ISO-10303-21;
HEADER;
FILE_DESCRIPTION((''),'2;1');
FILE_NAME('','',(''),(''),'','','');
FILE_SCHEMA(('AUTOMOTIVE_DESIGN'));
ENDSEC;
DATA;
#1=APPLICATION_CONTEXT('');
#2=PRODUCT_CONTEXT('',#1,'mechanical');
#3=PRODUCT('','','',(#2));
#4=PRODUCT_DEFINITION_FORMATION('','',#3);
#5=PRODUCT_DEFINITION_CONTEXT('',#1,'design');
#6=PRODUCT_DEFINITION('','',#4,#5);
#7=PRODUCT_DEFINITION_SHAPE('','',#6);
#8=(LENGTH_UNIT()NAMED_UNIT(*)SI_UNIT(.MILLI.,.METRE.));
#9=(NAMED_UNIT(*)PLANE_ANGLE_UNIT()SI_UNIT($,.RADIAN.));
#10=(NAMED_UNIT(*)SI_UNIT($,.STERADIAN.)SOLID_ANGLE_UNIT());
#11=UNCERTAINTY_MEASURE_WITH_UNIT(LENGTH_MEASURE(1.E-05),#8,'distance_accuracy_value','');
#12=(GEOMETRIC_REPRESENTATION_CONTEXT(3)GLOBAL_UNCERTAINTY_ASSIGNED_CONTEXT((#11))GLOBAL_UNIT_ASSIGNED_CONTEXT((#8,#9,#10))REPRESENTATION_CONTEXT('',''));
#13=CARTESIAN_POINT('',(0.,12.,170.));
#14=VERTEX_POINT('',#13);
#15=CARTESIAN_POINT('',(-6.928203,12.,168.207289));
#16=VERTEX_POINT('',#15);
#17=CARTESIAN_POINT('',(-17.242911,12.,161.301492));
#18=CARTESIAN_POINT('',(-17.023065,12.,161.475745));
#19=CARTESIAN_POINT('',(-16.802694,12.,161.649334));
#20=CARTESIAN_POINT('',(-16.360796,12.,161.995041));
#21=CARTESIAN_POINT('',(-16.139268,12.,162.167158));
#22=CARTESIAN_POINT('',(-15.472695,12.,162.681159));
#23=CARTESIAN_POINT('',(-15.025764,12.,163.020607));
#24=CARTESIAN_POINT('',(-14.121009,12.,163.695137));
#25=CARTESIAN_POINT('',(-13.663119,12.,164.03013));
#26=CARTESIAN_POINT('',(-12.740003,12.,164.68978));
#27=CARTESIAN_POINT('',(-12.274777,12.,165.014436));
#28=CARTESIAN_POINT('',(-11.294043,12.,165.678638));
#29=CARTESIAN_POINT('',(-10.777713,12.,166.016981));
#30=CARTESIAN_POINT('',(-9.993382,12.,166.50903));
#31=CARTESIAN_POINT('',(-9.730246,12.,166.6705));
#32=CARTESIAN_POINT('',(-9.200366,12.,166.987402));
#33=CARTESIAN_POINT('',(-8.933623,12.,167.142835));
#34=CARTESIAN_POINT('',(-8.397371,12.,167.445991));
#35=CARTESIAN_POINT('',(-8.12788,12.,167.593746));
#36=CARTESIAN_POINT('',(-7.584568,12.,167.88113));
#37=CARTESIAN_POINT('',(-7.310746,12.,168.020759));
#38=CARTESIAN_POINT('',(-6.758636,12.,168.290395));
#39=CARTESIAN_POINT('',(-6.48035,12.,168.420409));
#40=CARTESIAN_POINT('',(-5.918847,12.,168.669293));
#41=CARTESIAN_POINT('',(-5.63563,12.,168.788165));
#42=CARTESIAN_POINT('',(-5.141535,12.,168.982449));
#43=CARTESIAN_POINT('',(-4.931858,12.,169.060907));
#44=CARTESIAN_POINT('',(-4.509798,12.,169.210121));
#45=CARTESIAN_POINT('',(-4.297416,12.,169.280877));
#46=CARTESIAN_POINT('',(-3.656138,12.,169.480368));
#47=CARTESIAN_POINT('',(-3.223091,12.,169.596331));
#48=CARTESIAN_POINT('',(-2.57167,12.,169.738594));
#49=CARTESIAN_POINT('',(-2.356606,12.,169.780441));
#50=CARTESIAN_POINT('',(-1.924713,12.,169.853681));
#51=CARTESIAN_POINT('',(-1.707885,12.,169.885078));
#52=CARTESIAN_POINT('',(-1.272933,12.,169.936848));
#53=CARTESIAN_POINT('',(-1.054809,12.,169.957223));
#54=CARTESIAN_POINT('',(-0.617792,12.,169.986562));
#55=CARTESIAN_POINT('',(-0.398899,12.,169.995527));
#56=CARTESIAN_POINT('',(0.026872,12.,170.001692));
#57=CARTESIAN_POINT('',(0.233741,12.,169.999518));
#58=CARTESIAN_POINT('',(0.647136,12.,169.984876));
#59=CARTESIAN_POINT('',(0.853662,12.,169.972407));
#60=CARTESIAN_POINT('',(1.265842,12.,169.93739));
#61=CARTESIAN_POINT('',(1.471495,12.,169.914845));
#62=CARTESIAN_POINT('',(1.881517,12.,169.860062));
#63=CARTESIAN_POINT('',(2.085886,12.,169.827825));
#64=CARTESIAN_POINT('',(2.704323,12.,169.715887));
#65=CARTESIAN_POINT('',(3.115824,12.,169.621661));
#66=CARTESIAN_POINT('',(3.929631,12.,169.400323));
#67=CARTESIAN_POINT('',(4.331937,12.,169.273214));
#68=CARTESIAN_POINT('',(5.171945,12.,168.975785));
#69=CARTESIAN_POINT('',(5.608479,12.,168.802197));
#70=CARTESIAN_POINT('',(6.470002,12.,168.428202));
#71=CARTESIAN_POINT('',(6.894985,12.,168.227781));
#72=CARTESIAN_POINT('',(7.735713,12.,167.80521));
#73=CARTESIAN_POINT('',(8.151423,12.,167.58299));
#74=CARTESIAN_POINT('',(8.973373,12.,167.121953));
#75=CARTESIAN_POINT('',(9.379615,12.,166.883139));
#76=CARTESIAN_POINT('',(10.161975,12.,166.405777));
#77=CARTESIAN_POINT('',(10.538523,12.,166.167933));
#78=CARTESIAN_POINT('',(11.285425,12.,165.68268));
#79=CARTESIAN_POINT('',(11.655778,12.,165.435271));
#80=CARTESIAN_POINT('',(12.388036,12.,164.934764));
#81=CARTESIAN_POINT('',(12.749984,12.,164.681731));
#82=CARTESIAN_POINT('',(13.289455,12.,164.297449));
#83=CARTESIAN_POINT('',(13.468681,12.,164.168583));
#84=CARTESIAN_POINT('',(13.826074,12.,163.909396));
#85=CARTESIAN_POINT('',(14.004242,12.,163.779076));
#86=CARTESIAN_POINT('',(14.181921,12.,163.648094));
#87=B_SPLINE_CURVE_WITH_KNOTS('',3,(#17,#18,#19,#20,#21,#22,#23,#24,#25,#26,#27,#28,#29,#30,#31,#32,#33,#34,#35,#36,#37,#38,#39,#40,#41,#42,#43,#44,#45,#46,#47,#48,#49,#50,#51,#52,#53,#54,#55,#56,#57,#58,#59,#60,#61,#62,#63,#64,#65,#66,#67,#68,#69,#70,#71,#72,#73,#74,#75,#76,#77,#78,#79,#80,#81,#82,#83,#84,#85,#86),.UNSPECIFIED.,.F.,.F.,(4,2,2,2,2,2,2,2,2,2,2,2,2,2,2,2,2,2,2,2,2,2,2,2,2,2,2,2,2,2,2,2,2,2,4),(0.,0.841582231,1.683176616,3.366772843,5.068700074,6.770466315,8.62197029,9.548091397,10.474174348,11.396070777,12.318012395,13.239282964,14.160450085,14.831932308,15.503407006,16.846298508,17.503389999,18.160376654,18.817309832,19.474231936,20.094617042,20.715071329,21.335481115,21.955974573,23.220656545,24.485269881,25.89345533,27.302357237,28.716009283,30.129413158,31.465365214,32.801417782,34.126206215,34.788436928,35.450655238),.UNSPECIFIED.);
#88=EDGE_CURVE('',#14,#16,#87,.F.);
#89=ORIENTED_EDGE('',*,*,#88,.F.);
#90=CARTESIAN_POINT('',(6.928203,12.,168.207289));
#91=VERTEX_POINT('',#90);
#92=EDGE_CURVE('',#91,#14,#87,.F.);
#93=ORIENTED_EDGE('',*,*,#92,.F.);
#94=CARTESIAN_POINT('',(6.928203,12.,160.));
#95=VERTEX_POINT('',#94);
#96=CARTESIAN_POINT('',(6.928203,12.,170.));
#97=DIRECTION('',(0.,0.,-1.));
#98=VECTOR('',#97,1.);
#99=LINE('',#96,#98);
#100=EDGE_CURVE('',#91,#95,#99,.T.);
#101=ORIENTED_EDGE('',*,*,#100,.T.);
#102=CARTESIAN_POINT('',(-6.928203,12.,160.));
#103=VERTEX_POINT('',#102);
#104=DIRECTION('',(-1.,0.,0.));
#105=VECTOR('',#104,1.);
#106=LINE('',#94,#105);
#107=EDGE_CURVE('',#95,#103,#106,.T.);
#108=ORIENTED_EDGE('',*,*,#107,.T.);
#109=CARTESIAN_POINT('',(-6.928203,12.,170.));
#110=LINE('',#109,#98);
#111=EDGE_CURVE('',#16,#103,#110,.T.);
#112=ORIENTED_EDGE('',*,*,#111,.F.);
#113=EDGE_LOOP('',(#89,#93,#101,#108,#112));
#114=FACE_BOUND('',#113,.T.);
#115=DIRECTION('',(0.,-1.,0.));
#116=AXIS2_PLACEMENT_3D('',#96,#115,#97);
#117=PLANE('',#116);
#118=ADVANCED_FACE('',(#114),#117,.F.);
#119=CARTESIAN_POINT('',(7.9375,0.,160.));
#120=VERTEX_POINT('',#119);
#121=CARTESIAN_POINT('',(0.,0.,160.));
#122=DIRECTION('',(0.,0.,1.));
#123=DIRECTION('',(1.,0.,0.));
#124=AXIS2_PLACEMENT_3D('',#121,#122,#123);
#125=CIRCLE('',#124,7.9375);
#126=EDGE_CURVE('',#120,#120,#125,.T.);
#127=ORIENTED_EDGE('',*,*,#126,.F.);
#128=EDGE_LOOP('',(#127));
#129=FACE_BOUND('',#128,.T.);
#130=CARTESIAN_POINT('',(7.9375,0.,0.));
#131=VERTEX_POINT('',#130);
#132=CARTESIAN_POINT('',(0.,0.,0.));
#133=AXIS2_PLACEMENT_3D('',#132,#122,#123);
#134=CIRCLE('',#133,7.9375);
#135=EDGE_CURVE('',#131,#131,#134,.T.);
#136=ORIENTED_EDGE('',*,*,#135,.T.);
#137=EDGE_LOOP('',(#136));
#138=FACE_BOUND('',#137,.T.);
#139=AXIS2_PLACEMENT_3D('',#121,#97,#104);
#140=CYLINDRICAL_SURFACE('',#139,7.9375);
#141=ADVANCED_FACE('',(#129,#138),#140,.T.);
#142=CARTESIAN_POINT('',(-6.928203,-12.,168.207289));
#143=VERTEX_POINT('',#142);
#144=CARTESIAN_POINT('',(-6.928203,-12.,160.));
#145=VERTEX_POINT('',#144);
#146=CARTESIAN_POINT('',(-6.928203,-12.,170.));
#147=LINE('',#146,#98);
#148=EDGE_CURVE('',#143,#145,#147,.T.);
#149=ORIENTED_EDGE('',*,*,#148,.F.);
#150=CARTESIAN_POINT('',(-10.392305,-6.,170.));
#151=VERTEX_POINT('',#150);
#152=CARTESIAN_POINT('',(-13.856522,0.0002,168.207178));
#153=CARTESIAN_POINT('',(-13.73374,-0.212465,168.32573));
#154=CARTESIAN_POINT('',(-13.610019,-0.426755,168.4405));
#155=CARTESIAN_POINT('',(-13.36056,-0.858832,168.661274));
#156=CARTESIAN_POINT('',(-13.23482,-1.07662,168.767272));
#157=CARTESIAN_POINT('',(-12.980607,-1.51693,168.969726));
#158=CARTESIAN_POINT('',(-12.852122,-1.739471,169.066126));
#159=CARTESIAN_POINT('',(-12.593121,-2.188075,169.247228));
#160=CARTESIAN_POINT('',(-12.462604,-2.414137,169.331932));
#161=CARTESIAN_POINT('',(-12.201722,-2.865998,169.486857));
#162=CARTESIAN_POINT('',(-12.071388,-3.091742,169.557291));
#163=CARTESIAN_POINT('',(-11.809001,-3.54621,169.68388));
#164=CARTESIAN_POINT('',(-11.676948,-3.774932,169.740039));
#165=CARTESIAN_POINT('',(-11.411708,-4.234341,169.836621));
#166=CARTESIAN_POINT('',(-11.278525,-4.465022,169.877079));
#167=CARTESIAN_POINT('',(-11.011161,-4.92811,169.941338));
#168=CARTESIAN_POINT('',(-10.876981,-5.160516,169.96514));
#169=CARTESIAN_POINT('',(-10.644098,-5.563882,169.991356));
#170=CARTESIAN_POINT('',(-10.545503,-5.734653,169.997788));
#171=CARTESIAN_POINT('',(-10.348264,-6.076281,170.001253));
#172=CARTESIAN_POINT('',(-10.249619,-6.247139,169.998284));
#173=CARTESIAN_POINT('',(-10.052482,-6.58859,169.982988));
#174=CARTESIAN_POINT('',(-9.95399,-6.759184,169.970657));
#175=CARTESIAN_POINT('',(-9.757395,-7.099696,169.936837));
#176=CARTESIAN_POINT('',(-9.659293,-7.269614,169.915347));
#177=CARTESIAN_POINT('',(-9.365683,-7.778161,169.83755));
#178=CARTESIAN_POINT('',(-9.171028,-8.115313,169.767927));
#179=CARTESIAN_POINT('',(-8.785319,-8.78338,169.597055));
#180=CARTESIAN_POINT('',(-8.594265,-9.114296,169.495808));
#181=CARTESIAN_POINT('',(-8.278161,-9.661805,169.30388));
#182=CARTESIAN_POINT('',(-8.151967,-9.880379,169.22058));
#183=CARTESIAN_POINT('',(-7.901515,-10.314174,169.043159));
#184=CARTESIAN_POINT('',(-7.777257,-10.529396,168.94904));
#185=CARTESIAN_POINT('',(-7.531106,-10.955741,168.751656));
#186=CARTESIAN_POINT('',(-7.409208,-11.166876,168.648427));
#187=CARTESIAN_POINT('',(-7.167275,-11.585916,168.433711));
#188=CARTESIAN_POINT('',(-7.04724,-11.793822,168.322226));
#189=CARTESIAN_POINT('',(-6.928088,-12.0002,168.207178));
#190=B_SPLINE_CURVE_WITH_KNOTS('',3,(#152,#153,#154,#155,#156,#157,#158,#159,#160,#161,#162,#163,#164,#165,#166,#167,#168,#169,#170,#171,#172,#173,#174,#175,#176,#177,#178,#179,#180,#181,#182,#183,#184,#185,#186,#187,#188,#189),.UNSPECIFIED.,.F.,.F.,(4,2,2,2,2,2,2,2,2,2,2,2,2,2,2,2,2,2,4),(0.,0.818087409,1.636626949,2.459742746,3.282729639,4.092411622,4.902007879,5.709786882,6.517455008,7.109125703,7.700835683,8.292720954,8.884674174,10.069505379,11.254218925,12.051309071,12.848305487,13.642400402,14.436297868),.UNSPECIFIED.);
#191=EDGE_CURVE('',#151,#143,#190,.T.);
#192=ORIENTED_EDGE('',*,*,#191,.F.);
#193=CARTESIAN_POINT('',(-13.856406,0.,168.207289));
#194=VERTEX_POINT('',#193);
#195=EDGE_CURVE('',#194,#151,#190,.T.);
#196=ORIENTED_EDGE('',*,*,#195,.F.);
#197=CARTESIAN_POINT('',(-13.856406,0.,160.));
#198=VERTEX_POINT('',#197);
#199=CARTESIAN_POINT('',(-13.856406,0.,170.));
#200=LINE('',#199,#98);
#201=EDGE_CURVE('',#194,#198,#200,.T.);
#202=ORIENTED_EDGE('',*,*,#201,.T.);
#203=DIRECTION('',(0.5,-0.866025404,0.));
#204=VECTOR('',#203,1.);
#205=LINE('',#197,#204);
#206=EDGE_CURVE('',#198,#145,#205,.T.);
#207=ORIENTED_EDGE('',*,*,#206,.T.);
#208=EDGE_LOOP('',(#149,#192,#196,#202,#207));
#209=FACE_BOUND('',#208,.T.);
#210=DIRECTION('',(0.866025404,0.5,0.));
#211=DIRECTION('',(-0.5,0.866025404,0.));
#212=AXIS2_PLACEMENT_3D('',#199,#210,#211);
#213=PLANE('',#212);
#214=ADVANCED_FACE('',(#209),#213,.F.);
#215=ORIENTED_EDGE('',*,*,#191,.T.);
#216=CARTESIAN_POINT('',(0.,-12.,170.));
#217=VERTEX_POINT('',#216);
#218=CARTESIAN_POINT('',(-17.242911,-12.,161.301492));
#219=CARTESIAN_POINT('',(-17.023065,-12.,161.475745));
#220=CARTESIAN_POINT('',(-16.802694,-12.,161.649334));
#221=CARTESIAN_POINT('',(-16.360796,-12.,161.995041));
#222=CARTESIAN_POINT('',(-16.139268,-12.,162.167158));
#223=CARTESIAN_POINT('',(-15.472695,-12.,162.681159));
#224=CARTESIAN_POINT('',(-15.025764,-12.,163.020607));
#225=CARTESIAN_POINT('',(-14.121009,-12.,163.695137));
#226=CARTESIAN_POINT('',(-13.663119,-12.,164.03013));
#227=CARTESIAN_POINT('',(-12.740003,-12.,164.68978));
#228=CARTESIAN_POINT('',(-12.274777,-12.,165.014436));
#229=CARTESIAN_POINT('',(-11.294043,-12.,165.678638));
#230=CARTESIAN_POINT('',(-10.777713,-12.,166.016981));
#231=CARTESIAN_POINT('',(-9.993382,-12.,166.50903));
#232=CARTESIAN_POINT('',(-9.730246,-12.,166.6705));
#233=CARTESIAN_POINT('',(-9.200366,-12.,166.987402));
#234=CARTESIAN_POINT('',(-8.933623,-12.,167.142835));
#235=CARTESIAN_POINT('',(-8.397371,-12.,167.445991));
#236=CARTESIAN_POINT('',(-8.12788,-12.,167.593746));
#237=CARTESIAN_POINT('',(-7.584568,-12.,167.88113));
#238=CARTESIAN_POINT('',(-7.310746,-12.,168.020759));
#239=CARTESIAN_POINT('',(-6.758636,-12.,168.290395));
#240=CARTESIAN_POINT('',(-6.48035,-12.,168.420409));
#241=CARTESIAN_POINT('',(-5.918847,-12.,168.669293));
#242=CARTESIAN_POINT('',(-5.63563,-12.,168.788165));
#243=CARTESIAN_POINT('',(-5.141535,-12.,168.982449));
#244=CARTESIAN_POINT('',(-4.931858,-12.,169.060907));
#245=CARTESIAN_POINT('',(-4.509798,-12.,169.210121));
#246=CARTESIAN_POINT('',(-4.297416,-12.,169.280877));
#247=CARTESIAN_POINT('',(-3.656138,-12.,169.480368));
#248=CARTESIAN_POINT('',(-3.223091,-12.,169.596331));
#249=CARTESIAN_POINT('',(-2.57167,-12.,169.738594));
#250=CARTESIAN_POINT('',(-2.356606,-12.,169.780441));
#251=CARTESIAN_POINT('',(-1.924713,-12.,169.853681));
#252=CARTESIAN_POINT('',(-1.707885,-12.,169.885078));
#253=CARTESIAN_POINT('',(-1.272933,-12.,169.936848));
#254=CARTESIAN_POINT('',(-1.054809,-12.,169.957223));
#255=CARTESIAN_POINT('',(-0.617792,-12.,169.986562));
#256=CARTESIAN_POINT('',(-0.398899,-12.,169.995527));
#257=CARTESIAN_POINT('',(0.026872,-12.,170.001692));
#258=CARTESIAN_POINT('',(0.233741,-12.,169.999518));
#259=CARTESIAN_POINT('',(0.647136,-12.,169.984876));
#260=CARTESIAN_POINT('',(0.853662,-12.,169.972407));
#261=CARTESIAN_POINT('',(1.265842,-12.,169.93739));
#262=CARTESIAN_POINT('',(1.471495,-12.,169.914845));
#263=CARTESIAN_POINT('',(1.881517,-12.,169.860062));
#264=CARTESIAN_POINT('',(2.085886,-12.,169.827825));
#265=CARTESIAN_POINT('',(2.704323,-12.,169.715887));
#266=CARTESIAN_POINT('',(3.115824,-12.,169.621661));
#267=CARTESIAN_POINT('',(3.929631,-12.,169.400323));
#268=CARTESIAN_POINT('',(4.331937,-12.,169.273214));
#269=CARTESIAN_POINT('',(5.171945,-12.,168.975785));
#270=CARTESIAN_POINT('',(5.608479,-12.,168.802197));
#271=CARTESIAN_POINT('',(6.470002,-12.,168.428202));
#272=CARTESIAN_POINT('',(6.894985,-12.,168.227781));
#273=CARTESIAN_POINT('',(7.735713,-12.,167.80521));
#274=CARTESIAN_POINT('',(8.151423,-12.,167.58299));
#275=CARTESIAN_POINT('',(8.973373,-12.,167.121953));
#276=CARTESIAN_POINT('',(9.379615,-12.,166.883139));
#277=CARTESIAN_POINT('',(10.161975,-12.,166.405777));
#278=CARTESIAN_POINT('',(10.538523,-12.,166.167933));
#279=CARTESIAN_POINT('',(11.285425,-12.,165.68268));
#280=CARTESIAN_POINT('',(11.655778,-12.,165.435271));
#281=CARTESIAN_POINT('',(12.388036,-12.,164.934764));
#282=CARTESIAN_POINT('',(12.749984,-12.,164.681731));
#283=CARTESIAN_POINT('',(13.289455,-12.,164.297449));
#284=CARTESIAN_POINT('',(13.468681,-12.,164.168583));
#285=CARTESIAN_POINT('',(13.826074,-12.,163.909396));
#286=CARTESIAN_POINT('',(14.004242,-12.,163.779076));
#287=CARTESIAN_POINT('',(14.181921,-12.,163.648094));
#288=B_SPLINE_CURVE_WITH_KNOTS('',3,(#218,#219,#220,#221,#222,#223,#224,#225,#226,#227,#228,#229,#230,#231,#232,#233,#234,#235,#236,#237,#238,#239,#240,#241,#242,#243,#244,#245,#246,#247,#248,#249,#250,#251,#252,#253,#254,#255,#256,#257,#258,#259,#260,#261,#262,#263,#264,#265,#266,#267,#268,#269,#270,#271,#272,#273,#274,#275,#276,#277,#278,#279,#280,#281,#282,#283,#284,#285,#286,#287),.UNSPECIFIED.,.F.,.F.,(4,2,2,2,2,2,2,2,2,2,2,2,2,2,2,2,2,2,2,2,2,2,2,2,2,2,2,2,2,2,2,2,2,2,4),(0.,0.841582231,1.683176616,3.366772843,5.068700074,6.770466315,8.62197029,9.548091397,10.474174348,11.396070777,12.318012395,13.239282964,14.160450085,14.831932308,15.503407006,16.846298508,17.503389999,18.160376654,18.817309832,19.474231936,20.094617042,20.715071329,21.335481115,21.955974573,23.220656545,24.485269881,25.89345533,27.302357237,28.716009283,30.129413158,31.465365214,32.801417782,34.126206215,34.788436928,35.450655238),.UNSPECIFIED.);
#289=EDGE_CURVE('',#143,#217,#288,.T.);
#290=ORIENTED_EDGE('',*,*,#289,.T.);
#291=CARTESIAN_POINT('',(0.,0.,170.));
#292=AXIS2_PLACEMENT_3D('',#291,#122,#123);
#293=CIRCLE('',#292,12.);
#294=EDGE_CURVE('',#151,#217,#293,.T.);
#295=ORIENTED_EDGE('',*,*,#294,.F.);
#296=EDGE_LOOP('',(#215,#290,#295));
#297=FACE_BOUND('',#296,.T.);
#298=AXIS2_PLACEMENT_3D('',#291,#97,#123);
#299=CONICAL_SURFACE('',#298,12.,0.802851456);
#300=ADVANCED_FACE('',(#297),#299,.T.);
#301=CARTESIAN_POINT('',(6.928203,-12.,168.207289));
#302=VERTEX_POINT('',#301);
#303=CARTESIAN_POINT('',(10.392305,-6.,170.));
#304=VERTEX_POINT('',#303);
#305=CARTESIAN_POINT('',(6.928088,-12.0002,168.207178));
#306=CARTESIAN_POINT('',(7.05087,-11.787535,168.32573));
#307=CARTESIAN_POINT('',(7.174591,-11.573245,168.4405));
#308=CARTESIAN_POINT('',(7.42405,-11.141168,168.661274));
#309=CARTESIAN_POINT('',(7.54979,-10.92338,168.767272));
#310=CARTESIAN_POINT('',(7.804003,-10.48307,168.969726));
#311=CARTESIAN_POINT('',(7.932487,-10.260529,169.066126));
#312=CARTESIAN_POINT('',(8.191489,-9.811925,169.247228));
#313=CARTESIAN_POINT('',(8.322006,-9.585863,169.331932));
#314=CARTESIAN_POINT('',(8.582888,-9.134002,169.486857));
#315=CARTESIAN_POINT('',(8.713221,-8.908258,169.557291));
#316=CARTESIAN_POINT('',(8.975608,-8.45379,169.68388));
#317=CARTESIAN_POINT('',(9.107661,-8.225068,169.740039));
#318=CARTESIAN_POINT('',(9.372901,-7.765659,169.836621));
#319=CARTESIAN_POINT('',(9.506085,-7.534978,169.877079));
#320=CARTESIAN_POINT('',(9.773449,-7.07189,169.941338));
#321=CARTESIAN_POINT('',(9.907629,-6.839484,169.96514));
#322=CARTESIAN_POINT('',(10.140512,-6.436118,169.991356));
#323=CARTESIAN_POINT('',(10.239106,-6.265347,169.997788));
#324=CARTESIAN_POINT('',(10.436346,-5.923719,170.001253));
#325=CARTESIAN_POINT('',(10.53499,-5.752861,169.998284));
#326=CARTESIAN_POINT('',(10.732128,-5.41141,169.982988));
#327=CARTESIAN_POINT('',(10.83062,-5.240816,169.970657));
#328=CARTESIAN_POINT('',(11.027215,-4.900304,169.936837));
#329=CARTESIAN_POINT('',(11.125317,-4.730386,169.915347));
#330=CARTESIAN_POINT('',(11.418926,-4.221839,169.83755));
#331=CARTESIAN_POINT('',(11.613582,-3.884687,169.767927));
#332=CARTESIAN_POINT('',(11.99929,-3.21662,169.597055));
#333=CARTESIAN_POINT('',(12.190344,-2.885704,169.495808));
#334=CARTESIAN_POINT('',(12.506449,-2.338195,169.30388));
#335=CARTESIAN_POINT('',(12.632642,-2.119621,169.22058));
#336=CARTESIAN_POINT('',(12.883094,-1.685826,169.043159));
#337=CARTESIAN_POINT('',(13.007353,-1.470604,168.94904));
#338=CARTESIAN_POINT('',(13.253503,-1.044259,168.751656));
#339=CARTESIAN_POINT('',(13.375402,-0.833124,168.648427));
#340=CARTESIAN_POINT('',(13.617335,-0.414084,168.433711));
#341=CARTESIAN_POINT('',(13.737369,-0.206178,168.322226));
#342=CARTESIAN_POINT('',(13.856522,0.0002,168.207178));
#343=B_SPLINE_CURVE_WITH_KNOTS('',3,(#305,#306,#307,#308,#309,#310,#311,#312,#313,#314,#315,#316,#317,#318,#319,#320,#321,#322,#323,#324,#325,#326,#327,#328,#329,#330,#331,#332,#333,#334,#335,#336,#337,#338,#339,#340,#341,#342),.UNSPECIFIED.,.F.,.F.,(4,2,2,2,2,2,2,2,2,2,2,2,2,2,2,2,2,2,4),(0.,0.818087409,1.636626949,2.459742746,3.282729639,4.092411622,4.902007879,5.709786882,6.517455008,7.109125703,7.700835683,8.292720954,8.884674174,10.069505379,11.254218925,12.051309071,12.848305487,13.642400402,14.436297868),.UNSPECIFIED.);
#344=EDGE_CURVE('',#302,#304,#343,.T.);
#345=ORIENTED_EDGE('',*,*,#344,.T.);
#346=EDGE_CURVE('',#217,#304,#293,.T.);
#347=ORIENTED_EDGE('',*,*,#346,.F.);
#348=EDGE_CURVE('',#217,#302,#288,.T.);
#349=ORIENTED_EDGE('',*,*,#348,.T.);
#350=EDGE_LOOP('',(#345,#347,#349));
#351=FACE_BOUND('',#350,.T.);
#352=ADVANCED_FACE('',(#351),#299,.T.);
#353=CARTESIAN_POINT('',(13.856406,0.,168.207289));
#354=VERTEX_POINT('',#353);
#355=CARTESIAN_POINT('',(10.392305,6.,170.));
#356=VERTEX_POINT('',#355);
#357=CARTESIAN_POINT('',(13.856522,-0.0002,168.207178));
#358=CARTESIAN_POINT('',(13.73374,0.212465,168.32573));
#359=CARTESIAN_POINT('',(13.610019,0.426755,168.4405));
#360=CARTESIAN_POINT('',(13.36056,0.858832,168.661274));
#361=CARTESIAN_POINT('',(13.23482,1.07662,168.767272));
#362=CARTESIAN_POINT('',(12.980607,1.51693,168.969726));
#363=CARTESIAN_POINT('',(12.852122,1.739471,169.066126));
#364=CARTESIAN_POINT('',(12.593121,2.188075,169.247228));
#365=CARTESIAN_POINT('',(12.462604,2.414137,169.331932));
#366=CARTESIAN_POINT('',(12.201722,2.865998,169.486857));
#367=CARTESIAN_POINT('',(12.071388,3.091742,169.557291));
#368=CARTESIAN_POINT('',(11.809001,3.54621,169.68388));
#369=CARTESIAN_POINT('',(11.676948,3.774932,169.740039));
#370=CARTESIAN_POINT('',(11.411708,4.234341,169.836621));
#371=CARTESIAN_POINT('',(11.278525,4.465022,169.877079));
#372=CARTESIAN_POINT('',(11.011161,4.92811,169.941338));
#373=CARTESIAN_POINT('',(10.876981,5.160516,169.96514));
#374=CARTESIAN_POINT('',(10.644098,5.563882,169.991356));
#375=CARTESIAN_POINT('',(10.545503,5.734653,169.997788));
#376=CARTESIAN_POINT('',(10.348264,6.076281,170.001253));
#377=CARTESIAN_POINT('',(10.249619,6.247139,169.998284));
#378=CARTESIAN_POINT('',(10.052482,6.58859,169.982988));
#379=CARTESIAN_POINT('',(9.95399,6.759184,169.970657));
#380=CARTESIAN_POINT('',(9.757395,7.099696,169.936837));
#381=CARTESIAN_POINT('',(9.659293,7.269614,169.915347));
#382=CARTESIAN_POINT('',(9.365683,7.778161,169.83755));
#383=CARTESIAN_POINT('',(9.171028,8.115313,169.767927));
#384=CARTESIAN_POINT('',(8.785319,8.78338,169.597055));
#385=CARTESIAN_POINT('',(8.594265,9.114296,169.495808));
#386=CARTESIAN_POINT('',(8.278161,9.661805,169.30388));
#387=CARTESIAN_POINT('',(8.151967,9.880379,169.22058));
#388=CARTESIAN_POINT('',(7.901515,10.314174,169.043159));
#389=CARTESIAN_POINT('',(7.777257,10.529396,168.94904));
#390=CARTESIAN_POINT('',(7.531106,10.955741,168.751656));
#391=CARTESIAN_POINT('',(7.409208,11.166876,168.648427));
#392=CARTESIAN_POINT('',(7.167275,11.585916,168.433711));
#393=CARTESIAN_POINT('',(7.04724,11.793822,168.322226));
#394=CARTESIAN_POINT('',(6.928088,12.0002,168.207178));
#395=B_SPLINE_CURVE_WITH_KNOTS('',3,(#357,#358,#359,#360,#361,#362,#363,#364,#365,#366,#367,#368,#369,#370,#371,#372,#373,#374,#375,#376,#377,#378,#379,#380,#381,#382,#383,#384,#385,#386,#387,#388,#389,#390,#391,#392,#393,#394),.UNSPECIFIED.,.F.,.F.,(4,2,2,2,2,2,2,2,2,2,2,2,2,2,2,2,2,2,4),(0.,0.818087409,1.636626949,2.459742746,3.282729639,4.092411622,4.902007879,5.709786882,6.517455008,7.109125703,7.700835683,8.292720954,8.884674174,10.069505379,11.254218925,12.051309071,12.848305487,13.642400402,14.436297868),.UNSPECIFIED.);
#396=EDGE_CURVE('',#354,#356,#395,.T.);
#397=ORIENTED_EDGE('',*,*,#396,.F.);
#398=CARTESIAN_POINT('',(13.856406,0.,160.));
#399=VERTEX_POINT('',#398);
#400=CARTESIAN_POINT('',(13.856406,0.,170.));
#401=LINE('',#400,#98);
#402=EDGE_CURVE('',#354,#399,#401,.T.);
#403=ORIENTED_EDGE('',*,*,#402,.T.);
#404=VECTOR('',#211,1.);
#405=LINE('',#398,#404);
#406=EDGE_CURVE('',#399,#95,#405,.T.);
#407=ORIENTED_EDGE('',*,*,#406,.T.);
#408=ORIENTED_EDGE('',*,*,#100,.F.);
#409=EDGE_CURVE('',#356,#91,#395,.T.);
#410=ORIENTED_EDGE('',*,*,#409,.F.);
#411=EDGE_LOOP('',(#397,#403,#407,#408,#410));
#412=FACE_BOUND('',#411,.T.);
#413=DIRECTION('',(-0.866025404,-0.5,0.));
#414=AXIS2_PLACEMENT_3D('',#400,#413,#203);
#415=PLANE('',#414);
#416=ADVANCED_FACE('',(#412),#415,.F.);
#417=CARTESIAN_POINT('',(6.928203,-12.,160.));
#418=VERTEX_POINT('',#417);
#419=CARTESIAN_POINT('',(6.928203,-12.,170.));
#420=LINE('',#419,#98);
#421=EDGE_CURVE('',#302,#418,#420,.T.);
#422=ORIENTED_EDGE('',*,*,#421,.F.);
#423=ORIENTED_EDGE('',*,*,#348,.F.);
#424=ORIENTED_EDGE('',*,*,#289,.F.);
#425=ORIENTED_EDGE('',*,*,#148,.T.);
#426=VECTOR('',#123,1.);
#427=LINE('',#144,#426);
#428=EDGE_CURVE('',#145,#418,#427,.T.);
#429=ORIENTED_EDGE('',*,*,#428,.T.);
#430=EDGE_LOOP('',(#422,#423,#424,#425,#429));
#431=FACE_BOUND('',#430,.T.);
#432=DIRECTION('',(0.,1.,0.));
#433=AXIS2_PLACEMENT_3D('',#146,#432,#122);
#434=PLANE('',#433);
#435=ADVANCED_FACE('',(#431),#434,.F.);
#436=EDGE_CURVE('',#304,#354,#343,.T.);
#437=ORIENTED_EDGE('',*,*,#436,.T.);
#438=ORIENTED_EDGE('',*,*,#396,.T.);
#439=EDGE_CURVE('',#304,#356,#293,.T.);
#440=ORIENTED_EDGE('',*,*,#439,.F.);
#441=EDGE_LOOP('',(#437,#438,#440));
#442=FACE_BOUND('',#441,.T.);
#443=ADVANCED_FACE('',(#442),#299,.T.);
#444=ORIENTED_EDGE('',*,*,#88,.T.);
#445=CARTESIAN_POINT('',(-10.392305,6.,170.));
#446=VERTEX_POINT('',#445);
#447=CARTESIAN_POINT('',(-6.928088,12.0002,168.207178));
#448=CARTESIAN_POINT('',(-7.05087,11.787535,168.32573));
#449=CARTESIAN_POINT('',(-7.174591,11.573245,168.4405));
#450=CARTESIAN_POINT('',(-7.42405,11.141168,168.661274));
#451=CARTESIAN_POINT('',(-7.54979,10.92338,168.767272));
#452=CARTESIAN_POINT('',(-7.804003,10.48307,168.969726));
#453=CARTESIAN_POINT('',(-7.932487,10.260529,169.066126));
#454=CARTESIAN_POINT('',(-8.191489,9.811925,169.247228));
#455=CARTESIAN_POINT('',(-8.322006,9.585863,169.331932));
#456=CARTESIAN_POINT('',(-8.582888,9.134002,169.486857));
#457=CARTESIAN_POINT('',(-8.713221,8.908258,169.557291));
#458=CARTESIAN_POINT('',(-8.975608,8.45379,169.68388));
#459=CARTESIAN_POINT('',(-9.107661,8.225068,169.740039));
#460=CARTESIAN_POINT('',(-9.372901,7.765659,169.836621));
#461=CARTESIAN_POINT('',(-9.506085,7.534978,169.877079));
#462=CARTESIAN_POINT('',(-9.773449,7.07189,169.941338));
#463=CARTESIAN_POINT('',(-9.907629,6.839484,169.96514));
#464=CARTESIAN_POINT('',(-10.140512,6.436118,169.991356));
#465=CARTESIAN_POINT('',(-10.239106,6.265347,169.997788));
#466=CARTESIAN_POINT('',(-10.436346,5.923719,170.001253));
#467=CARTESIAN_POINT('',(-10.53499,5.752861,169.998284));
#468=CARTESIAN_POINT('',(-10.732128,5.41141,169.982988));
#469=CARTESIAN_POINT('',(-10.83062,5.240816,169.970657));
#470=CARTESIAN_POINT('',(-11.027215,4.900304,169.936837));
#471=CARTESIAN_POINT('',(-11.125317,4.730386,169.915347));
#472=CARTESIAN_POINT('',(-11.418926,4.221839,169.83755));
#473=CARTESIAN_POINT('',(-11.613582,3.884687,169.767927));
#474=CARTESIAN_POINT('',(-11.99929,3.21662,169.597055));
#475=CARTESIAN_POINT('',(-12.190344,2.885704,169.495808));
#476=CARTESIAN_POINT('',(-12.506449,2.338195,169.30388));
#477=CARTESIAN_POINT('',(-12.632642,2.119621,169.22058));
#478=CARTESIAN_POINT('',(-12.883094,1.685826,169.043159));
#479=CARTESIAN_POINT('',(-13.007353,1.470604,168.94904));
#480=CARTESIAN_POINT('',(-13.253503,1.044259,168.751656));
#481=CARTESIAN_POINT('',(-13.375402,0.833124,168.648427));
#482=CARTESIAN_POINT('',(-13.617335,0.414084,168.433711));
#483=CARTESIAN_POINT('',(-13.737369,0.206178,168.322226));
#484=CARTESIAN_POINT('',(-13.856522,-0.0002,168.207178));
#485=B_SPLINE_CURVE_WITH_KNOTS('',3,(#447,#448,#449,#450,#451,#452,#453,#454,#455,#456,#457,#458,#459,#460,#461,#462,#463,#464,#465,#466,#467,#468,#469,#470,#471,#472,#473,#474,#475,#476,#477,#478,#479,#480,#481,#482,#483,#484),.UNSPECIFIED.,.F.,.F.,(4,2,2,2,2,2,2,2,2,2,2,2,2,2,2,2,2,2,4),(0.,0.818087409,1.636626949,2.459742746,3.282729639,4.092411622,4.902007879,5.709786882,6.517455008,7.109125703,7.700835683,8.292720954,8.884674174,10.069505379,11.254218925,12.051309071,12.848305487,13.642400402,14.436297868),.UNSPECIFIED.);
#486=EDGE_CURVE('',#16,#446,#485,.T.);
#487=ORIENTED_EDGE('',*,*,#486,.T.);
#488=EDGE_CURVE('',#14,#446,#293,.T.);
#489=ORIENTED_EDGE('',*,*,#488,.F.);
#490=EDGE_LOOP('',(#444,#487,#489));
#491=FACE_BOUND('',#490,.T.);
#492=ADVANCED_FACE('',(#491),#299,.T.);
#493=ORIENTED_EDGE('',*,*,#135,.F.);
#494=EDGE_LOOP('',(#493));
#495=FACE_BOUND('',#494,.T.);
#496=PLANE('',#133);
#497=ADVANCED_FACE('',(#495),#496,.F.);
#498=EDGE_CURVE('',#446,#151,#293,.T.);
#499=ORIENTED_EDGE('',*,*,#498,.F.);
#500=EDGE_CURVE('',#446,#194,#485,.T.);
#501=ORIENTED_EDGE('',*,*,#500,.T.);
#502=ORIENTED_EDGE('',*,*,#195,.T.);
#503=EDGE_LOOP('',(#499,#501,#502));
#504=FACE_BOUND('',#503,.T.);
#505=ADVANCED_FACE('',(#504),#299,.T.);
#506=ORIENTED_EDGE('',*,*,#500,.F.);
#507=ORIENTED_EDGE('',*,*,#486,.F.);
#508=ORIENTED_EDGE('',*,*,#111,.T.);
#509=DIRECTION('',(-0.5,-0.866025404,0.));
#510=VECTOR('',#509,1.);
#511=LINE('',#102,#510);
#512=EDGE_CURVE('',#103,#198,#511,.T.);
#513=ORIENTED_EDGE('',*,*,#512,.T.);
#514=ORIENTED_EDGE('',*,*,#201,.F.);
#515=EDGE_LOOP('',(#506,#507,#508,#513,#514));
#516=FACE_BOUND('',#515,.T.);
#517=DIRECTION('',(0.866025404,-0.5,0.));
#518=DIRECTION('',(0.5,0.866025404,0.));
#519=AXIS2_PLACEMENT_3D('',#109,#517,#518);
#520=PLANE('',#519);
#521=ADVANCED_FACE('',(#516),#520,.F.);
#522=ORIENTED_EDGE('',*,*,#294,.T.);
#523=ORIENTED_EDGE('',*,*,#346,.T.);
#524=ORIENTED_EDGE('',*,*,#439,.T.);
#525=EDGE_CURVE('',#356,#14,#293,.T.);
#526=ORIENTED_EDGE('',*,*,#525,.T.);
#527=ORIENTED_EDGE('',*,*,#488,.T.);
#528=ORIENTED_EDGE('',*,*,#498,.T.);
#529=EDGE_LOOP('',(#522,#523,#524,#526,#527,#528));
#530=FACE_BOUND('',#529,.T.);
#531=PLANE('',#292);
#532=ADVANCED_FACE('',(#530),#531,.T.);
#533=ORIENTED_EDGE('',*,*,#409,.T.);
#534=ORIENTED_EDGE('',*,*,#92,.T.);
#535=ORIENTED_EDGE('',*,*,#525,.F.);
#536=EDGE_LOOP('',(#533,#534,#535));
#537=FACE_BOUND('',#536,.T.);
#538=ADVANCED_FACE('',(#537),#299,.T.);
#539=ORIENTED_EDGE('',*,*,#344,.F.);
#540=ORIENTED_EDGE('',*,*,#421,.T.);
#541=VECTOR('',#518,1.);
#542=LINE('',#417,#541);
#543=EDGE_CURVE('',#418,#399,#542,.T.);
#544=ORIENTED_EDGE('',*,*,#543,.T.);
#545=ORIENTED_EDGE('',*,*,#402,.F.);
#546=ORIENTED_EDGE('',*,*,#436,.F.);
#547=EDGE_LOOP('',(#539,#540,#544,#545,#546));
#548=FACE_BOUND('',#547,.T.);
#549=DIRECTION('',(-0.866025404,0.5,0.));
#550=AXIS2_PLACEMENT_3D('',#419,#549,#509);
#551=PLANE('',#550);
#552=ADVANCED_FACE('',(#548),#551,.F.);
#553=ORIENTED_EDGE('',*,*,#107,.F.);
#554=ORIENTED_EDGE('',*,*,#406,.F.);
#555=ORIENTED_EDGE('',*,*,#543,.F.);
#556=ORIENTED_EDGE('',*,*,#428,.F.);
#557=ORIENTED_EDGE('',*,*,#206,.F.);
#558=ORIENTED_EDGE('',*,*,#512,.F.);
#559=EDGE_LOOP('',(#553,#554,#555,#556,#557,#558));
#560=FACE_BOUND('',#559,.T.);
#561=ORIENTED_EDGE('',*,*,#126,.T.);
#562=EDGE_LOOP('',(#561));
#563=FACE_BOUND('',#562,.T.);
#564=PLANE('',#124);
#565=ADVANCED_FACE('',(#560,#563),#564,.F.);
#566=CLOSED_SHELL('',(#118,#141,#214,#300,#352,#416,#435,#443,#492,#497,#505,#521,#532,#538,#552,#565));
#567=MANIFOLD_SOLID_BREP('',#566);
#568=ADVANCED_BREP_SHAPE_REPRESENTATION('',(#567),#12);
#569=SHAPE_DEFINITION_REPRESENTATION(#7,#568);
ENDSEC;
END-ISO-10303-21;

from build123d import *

# Parameters (mm, degrees)
CROQUIS1_R              = 7.9375
SALIENTE_EXTRUIR1_DEPTH = 160
SALIENTE_EXTRUIR2_DEPTH = 10
CROQUIS3_R              = 34.921607703
CROQUIS3_R_2            = 12
CORTAR_EXTRUIR1_DEPTH   = 6
CORTAR_EXTRUIR1_DRAFT   = -46


with BuildPart() as part:
    # Croquis1 → Saliente-Extruir1 (new body)
    with BuildSketch(Plane.XY):
        Circle(CROQUIS1_R)
    extrude(amount=SALIENTE_EXTRUIR1_DEPTH)

    # Croquis2 → Saliente-Extruir2 (add)
    with BuildSketch(Plane.XY.offset(160)):
        Polygon((13.856406461, 0), (6.92820323, 12), (-6.92820323, 12), (-13.856406461, 0), (-6.92820323, -12), (6.92820323, -12), align=None)
    extrude(amount=SALIENTE_EXTRUIR2_DEPTH)


with BuildPart() as cortar_extruir1_tool:
    # Croquis3 → Cortar-Extruir1 (with draft: the straight prism first)
    with BuildSketch(Plane.XY.offset(170)):
        Circle(CROQUIS3_R)
        Circle(CROQUIS3_R_2, mode=Mode.SUBTRACT)
    extrude(amount=-CORTAR_EXTRUIR1_DEPTH)
    # Cortar-Extruir1: the draft: its side faces are tilted about the plane it starts from
    cortar_extruir1_sides = [cortar_extruir1_tool.faces().sort_by_distance(p)[0] for p in [
        (-34.921607703, 0, 167),
        (-12, 0, 167),
    ]]
    draft(cortar_extruir1_sides, Plane.XY.offset(170), CORTAR_EXTRUIR1_DRAFT)


with BuildPart() as part_1:
    add(part.part)

    # Cortar-Extruir1: cut by cortar_extruir1_tool
    add(cortar_extruir1_tool.part, mode=Mode.SUBTRACT)


solid = part_1.part
